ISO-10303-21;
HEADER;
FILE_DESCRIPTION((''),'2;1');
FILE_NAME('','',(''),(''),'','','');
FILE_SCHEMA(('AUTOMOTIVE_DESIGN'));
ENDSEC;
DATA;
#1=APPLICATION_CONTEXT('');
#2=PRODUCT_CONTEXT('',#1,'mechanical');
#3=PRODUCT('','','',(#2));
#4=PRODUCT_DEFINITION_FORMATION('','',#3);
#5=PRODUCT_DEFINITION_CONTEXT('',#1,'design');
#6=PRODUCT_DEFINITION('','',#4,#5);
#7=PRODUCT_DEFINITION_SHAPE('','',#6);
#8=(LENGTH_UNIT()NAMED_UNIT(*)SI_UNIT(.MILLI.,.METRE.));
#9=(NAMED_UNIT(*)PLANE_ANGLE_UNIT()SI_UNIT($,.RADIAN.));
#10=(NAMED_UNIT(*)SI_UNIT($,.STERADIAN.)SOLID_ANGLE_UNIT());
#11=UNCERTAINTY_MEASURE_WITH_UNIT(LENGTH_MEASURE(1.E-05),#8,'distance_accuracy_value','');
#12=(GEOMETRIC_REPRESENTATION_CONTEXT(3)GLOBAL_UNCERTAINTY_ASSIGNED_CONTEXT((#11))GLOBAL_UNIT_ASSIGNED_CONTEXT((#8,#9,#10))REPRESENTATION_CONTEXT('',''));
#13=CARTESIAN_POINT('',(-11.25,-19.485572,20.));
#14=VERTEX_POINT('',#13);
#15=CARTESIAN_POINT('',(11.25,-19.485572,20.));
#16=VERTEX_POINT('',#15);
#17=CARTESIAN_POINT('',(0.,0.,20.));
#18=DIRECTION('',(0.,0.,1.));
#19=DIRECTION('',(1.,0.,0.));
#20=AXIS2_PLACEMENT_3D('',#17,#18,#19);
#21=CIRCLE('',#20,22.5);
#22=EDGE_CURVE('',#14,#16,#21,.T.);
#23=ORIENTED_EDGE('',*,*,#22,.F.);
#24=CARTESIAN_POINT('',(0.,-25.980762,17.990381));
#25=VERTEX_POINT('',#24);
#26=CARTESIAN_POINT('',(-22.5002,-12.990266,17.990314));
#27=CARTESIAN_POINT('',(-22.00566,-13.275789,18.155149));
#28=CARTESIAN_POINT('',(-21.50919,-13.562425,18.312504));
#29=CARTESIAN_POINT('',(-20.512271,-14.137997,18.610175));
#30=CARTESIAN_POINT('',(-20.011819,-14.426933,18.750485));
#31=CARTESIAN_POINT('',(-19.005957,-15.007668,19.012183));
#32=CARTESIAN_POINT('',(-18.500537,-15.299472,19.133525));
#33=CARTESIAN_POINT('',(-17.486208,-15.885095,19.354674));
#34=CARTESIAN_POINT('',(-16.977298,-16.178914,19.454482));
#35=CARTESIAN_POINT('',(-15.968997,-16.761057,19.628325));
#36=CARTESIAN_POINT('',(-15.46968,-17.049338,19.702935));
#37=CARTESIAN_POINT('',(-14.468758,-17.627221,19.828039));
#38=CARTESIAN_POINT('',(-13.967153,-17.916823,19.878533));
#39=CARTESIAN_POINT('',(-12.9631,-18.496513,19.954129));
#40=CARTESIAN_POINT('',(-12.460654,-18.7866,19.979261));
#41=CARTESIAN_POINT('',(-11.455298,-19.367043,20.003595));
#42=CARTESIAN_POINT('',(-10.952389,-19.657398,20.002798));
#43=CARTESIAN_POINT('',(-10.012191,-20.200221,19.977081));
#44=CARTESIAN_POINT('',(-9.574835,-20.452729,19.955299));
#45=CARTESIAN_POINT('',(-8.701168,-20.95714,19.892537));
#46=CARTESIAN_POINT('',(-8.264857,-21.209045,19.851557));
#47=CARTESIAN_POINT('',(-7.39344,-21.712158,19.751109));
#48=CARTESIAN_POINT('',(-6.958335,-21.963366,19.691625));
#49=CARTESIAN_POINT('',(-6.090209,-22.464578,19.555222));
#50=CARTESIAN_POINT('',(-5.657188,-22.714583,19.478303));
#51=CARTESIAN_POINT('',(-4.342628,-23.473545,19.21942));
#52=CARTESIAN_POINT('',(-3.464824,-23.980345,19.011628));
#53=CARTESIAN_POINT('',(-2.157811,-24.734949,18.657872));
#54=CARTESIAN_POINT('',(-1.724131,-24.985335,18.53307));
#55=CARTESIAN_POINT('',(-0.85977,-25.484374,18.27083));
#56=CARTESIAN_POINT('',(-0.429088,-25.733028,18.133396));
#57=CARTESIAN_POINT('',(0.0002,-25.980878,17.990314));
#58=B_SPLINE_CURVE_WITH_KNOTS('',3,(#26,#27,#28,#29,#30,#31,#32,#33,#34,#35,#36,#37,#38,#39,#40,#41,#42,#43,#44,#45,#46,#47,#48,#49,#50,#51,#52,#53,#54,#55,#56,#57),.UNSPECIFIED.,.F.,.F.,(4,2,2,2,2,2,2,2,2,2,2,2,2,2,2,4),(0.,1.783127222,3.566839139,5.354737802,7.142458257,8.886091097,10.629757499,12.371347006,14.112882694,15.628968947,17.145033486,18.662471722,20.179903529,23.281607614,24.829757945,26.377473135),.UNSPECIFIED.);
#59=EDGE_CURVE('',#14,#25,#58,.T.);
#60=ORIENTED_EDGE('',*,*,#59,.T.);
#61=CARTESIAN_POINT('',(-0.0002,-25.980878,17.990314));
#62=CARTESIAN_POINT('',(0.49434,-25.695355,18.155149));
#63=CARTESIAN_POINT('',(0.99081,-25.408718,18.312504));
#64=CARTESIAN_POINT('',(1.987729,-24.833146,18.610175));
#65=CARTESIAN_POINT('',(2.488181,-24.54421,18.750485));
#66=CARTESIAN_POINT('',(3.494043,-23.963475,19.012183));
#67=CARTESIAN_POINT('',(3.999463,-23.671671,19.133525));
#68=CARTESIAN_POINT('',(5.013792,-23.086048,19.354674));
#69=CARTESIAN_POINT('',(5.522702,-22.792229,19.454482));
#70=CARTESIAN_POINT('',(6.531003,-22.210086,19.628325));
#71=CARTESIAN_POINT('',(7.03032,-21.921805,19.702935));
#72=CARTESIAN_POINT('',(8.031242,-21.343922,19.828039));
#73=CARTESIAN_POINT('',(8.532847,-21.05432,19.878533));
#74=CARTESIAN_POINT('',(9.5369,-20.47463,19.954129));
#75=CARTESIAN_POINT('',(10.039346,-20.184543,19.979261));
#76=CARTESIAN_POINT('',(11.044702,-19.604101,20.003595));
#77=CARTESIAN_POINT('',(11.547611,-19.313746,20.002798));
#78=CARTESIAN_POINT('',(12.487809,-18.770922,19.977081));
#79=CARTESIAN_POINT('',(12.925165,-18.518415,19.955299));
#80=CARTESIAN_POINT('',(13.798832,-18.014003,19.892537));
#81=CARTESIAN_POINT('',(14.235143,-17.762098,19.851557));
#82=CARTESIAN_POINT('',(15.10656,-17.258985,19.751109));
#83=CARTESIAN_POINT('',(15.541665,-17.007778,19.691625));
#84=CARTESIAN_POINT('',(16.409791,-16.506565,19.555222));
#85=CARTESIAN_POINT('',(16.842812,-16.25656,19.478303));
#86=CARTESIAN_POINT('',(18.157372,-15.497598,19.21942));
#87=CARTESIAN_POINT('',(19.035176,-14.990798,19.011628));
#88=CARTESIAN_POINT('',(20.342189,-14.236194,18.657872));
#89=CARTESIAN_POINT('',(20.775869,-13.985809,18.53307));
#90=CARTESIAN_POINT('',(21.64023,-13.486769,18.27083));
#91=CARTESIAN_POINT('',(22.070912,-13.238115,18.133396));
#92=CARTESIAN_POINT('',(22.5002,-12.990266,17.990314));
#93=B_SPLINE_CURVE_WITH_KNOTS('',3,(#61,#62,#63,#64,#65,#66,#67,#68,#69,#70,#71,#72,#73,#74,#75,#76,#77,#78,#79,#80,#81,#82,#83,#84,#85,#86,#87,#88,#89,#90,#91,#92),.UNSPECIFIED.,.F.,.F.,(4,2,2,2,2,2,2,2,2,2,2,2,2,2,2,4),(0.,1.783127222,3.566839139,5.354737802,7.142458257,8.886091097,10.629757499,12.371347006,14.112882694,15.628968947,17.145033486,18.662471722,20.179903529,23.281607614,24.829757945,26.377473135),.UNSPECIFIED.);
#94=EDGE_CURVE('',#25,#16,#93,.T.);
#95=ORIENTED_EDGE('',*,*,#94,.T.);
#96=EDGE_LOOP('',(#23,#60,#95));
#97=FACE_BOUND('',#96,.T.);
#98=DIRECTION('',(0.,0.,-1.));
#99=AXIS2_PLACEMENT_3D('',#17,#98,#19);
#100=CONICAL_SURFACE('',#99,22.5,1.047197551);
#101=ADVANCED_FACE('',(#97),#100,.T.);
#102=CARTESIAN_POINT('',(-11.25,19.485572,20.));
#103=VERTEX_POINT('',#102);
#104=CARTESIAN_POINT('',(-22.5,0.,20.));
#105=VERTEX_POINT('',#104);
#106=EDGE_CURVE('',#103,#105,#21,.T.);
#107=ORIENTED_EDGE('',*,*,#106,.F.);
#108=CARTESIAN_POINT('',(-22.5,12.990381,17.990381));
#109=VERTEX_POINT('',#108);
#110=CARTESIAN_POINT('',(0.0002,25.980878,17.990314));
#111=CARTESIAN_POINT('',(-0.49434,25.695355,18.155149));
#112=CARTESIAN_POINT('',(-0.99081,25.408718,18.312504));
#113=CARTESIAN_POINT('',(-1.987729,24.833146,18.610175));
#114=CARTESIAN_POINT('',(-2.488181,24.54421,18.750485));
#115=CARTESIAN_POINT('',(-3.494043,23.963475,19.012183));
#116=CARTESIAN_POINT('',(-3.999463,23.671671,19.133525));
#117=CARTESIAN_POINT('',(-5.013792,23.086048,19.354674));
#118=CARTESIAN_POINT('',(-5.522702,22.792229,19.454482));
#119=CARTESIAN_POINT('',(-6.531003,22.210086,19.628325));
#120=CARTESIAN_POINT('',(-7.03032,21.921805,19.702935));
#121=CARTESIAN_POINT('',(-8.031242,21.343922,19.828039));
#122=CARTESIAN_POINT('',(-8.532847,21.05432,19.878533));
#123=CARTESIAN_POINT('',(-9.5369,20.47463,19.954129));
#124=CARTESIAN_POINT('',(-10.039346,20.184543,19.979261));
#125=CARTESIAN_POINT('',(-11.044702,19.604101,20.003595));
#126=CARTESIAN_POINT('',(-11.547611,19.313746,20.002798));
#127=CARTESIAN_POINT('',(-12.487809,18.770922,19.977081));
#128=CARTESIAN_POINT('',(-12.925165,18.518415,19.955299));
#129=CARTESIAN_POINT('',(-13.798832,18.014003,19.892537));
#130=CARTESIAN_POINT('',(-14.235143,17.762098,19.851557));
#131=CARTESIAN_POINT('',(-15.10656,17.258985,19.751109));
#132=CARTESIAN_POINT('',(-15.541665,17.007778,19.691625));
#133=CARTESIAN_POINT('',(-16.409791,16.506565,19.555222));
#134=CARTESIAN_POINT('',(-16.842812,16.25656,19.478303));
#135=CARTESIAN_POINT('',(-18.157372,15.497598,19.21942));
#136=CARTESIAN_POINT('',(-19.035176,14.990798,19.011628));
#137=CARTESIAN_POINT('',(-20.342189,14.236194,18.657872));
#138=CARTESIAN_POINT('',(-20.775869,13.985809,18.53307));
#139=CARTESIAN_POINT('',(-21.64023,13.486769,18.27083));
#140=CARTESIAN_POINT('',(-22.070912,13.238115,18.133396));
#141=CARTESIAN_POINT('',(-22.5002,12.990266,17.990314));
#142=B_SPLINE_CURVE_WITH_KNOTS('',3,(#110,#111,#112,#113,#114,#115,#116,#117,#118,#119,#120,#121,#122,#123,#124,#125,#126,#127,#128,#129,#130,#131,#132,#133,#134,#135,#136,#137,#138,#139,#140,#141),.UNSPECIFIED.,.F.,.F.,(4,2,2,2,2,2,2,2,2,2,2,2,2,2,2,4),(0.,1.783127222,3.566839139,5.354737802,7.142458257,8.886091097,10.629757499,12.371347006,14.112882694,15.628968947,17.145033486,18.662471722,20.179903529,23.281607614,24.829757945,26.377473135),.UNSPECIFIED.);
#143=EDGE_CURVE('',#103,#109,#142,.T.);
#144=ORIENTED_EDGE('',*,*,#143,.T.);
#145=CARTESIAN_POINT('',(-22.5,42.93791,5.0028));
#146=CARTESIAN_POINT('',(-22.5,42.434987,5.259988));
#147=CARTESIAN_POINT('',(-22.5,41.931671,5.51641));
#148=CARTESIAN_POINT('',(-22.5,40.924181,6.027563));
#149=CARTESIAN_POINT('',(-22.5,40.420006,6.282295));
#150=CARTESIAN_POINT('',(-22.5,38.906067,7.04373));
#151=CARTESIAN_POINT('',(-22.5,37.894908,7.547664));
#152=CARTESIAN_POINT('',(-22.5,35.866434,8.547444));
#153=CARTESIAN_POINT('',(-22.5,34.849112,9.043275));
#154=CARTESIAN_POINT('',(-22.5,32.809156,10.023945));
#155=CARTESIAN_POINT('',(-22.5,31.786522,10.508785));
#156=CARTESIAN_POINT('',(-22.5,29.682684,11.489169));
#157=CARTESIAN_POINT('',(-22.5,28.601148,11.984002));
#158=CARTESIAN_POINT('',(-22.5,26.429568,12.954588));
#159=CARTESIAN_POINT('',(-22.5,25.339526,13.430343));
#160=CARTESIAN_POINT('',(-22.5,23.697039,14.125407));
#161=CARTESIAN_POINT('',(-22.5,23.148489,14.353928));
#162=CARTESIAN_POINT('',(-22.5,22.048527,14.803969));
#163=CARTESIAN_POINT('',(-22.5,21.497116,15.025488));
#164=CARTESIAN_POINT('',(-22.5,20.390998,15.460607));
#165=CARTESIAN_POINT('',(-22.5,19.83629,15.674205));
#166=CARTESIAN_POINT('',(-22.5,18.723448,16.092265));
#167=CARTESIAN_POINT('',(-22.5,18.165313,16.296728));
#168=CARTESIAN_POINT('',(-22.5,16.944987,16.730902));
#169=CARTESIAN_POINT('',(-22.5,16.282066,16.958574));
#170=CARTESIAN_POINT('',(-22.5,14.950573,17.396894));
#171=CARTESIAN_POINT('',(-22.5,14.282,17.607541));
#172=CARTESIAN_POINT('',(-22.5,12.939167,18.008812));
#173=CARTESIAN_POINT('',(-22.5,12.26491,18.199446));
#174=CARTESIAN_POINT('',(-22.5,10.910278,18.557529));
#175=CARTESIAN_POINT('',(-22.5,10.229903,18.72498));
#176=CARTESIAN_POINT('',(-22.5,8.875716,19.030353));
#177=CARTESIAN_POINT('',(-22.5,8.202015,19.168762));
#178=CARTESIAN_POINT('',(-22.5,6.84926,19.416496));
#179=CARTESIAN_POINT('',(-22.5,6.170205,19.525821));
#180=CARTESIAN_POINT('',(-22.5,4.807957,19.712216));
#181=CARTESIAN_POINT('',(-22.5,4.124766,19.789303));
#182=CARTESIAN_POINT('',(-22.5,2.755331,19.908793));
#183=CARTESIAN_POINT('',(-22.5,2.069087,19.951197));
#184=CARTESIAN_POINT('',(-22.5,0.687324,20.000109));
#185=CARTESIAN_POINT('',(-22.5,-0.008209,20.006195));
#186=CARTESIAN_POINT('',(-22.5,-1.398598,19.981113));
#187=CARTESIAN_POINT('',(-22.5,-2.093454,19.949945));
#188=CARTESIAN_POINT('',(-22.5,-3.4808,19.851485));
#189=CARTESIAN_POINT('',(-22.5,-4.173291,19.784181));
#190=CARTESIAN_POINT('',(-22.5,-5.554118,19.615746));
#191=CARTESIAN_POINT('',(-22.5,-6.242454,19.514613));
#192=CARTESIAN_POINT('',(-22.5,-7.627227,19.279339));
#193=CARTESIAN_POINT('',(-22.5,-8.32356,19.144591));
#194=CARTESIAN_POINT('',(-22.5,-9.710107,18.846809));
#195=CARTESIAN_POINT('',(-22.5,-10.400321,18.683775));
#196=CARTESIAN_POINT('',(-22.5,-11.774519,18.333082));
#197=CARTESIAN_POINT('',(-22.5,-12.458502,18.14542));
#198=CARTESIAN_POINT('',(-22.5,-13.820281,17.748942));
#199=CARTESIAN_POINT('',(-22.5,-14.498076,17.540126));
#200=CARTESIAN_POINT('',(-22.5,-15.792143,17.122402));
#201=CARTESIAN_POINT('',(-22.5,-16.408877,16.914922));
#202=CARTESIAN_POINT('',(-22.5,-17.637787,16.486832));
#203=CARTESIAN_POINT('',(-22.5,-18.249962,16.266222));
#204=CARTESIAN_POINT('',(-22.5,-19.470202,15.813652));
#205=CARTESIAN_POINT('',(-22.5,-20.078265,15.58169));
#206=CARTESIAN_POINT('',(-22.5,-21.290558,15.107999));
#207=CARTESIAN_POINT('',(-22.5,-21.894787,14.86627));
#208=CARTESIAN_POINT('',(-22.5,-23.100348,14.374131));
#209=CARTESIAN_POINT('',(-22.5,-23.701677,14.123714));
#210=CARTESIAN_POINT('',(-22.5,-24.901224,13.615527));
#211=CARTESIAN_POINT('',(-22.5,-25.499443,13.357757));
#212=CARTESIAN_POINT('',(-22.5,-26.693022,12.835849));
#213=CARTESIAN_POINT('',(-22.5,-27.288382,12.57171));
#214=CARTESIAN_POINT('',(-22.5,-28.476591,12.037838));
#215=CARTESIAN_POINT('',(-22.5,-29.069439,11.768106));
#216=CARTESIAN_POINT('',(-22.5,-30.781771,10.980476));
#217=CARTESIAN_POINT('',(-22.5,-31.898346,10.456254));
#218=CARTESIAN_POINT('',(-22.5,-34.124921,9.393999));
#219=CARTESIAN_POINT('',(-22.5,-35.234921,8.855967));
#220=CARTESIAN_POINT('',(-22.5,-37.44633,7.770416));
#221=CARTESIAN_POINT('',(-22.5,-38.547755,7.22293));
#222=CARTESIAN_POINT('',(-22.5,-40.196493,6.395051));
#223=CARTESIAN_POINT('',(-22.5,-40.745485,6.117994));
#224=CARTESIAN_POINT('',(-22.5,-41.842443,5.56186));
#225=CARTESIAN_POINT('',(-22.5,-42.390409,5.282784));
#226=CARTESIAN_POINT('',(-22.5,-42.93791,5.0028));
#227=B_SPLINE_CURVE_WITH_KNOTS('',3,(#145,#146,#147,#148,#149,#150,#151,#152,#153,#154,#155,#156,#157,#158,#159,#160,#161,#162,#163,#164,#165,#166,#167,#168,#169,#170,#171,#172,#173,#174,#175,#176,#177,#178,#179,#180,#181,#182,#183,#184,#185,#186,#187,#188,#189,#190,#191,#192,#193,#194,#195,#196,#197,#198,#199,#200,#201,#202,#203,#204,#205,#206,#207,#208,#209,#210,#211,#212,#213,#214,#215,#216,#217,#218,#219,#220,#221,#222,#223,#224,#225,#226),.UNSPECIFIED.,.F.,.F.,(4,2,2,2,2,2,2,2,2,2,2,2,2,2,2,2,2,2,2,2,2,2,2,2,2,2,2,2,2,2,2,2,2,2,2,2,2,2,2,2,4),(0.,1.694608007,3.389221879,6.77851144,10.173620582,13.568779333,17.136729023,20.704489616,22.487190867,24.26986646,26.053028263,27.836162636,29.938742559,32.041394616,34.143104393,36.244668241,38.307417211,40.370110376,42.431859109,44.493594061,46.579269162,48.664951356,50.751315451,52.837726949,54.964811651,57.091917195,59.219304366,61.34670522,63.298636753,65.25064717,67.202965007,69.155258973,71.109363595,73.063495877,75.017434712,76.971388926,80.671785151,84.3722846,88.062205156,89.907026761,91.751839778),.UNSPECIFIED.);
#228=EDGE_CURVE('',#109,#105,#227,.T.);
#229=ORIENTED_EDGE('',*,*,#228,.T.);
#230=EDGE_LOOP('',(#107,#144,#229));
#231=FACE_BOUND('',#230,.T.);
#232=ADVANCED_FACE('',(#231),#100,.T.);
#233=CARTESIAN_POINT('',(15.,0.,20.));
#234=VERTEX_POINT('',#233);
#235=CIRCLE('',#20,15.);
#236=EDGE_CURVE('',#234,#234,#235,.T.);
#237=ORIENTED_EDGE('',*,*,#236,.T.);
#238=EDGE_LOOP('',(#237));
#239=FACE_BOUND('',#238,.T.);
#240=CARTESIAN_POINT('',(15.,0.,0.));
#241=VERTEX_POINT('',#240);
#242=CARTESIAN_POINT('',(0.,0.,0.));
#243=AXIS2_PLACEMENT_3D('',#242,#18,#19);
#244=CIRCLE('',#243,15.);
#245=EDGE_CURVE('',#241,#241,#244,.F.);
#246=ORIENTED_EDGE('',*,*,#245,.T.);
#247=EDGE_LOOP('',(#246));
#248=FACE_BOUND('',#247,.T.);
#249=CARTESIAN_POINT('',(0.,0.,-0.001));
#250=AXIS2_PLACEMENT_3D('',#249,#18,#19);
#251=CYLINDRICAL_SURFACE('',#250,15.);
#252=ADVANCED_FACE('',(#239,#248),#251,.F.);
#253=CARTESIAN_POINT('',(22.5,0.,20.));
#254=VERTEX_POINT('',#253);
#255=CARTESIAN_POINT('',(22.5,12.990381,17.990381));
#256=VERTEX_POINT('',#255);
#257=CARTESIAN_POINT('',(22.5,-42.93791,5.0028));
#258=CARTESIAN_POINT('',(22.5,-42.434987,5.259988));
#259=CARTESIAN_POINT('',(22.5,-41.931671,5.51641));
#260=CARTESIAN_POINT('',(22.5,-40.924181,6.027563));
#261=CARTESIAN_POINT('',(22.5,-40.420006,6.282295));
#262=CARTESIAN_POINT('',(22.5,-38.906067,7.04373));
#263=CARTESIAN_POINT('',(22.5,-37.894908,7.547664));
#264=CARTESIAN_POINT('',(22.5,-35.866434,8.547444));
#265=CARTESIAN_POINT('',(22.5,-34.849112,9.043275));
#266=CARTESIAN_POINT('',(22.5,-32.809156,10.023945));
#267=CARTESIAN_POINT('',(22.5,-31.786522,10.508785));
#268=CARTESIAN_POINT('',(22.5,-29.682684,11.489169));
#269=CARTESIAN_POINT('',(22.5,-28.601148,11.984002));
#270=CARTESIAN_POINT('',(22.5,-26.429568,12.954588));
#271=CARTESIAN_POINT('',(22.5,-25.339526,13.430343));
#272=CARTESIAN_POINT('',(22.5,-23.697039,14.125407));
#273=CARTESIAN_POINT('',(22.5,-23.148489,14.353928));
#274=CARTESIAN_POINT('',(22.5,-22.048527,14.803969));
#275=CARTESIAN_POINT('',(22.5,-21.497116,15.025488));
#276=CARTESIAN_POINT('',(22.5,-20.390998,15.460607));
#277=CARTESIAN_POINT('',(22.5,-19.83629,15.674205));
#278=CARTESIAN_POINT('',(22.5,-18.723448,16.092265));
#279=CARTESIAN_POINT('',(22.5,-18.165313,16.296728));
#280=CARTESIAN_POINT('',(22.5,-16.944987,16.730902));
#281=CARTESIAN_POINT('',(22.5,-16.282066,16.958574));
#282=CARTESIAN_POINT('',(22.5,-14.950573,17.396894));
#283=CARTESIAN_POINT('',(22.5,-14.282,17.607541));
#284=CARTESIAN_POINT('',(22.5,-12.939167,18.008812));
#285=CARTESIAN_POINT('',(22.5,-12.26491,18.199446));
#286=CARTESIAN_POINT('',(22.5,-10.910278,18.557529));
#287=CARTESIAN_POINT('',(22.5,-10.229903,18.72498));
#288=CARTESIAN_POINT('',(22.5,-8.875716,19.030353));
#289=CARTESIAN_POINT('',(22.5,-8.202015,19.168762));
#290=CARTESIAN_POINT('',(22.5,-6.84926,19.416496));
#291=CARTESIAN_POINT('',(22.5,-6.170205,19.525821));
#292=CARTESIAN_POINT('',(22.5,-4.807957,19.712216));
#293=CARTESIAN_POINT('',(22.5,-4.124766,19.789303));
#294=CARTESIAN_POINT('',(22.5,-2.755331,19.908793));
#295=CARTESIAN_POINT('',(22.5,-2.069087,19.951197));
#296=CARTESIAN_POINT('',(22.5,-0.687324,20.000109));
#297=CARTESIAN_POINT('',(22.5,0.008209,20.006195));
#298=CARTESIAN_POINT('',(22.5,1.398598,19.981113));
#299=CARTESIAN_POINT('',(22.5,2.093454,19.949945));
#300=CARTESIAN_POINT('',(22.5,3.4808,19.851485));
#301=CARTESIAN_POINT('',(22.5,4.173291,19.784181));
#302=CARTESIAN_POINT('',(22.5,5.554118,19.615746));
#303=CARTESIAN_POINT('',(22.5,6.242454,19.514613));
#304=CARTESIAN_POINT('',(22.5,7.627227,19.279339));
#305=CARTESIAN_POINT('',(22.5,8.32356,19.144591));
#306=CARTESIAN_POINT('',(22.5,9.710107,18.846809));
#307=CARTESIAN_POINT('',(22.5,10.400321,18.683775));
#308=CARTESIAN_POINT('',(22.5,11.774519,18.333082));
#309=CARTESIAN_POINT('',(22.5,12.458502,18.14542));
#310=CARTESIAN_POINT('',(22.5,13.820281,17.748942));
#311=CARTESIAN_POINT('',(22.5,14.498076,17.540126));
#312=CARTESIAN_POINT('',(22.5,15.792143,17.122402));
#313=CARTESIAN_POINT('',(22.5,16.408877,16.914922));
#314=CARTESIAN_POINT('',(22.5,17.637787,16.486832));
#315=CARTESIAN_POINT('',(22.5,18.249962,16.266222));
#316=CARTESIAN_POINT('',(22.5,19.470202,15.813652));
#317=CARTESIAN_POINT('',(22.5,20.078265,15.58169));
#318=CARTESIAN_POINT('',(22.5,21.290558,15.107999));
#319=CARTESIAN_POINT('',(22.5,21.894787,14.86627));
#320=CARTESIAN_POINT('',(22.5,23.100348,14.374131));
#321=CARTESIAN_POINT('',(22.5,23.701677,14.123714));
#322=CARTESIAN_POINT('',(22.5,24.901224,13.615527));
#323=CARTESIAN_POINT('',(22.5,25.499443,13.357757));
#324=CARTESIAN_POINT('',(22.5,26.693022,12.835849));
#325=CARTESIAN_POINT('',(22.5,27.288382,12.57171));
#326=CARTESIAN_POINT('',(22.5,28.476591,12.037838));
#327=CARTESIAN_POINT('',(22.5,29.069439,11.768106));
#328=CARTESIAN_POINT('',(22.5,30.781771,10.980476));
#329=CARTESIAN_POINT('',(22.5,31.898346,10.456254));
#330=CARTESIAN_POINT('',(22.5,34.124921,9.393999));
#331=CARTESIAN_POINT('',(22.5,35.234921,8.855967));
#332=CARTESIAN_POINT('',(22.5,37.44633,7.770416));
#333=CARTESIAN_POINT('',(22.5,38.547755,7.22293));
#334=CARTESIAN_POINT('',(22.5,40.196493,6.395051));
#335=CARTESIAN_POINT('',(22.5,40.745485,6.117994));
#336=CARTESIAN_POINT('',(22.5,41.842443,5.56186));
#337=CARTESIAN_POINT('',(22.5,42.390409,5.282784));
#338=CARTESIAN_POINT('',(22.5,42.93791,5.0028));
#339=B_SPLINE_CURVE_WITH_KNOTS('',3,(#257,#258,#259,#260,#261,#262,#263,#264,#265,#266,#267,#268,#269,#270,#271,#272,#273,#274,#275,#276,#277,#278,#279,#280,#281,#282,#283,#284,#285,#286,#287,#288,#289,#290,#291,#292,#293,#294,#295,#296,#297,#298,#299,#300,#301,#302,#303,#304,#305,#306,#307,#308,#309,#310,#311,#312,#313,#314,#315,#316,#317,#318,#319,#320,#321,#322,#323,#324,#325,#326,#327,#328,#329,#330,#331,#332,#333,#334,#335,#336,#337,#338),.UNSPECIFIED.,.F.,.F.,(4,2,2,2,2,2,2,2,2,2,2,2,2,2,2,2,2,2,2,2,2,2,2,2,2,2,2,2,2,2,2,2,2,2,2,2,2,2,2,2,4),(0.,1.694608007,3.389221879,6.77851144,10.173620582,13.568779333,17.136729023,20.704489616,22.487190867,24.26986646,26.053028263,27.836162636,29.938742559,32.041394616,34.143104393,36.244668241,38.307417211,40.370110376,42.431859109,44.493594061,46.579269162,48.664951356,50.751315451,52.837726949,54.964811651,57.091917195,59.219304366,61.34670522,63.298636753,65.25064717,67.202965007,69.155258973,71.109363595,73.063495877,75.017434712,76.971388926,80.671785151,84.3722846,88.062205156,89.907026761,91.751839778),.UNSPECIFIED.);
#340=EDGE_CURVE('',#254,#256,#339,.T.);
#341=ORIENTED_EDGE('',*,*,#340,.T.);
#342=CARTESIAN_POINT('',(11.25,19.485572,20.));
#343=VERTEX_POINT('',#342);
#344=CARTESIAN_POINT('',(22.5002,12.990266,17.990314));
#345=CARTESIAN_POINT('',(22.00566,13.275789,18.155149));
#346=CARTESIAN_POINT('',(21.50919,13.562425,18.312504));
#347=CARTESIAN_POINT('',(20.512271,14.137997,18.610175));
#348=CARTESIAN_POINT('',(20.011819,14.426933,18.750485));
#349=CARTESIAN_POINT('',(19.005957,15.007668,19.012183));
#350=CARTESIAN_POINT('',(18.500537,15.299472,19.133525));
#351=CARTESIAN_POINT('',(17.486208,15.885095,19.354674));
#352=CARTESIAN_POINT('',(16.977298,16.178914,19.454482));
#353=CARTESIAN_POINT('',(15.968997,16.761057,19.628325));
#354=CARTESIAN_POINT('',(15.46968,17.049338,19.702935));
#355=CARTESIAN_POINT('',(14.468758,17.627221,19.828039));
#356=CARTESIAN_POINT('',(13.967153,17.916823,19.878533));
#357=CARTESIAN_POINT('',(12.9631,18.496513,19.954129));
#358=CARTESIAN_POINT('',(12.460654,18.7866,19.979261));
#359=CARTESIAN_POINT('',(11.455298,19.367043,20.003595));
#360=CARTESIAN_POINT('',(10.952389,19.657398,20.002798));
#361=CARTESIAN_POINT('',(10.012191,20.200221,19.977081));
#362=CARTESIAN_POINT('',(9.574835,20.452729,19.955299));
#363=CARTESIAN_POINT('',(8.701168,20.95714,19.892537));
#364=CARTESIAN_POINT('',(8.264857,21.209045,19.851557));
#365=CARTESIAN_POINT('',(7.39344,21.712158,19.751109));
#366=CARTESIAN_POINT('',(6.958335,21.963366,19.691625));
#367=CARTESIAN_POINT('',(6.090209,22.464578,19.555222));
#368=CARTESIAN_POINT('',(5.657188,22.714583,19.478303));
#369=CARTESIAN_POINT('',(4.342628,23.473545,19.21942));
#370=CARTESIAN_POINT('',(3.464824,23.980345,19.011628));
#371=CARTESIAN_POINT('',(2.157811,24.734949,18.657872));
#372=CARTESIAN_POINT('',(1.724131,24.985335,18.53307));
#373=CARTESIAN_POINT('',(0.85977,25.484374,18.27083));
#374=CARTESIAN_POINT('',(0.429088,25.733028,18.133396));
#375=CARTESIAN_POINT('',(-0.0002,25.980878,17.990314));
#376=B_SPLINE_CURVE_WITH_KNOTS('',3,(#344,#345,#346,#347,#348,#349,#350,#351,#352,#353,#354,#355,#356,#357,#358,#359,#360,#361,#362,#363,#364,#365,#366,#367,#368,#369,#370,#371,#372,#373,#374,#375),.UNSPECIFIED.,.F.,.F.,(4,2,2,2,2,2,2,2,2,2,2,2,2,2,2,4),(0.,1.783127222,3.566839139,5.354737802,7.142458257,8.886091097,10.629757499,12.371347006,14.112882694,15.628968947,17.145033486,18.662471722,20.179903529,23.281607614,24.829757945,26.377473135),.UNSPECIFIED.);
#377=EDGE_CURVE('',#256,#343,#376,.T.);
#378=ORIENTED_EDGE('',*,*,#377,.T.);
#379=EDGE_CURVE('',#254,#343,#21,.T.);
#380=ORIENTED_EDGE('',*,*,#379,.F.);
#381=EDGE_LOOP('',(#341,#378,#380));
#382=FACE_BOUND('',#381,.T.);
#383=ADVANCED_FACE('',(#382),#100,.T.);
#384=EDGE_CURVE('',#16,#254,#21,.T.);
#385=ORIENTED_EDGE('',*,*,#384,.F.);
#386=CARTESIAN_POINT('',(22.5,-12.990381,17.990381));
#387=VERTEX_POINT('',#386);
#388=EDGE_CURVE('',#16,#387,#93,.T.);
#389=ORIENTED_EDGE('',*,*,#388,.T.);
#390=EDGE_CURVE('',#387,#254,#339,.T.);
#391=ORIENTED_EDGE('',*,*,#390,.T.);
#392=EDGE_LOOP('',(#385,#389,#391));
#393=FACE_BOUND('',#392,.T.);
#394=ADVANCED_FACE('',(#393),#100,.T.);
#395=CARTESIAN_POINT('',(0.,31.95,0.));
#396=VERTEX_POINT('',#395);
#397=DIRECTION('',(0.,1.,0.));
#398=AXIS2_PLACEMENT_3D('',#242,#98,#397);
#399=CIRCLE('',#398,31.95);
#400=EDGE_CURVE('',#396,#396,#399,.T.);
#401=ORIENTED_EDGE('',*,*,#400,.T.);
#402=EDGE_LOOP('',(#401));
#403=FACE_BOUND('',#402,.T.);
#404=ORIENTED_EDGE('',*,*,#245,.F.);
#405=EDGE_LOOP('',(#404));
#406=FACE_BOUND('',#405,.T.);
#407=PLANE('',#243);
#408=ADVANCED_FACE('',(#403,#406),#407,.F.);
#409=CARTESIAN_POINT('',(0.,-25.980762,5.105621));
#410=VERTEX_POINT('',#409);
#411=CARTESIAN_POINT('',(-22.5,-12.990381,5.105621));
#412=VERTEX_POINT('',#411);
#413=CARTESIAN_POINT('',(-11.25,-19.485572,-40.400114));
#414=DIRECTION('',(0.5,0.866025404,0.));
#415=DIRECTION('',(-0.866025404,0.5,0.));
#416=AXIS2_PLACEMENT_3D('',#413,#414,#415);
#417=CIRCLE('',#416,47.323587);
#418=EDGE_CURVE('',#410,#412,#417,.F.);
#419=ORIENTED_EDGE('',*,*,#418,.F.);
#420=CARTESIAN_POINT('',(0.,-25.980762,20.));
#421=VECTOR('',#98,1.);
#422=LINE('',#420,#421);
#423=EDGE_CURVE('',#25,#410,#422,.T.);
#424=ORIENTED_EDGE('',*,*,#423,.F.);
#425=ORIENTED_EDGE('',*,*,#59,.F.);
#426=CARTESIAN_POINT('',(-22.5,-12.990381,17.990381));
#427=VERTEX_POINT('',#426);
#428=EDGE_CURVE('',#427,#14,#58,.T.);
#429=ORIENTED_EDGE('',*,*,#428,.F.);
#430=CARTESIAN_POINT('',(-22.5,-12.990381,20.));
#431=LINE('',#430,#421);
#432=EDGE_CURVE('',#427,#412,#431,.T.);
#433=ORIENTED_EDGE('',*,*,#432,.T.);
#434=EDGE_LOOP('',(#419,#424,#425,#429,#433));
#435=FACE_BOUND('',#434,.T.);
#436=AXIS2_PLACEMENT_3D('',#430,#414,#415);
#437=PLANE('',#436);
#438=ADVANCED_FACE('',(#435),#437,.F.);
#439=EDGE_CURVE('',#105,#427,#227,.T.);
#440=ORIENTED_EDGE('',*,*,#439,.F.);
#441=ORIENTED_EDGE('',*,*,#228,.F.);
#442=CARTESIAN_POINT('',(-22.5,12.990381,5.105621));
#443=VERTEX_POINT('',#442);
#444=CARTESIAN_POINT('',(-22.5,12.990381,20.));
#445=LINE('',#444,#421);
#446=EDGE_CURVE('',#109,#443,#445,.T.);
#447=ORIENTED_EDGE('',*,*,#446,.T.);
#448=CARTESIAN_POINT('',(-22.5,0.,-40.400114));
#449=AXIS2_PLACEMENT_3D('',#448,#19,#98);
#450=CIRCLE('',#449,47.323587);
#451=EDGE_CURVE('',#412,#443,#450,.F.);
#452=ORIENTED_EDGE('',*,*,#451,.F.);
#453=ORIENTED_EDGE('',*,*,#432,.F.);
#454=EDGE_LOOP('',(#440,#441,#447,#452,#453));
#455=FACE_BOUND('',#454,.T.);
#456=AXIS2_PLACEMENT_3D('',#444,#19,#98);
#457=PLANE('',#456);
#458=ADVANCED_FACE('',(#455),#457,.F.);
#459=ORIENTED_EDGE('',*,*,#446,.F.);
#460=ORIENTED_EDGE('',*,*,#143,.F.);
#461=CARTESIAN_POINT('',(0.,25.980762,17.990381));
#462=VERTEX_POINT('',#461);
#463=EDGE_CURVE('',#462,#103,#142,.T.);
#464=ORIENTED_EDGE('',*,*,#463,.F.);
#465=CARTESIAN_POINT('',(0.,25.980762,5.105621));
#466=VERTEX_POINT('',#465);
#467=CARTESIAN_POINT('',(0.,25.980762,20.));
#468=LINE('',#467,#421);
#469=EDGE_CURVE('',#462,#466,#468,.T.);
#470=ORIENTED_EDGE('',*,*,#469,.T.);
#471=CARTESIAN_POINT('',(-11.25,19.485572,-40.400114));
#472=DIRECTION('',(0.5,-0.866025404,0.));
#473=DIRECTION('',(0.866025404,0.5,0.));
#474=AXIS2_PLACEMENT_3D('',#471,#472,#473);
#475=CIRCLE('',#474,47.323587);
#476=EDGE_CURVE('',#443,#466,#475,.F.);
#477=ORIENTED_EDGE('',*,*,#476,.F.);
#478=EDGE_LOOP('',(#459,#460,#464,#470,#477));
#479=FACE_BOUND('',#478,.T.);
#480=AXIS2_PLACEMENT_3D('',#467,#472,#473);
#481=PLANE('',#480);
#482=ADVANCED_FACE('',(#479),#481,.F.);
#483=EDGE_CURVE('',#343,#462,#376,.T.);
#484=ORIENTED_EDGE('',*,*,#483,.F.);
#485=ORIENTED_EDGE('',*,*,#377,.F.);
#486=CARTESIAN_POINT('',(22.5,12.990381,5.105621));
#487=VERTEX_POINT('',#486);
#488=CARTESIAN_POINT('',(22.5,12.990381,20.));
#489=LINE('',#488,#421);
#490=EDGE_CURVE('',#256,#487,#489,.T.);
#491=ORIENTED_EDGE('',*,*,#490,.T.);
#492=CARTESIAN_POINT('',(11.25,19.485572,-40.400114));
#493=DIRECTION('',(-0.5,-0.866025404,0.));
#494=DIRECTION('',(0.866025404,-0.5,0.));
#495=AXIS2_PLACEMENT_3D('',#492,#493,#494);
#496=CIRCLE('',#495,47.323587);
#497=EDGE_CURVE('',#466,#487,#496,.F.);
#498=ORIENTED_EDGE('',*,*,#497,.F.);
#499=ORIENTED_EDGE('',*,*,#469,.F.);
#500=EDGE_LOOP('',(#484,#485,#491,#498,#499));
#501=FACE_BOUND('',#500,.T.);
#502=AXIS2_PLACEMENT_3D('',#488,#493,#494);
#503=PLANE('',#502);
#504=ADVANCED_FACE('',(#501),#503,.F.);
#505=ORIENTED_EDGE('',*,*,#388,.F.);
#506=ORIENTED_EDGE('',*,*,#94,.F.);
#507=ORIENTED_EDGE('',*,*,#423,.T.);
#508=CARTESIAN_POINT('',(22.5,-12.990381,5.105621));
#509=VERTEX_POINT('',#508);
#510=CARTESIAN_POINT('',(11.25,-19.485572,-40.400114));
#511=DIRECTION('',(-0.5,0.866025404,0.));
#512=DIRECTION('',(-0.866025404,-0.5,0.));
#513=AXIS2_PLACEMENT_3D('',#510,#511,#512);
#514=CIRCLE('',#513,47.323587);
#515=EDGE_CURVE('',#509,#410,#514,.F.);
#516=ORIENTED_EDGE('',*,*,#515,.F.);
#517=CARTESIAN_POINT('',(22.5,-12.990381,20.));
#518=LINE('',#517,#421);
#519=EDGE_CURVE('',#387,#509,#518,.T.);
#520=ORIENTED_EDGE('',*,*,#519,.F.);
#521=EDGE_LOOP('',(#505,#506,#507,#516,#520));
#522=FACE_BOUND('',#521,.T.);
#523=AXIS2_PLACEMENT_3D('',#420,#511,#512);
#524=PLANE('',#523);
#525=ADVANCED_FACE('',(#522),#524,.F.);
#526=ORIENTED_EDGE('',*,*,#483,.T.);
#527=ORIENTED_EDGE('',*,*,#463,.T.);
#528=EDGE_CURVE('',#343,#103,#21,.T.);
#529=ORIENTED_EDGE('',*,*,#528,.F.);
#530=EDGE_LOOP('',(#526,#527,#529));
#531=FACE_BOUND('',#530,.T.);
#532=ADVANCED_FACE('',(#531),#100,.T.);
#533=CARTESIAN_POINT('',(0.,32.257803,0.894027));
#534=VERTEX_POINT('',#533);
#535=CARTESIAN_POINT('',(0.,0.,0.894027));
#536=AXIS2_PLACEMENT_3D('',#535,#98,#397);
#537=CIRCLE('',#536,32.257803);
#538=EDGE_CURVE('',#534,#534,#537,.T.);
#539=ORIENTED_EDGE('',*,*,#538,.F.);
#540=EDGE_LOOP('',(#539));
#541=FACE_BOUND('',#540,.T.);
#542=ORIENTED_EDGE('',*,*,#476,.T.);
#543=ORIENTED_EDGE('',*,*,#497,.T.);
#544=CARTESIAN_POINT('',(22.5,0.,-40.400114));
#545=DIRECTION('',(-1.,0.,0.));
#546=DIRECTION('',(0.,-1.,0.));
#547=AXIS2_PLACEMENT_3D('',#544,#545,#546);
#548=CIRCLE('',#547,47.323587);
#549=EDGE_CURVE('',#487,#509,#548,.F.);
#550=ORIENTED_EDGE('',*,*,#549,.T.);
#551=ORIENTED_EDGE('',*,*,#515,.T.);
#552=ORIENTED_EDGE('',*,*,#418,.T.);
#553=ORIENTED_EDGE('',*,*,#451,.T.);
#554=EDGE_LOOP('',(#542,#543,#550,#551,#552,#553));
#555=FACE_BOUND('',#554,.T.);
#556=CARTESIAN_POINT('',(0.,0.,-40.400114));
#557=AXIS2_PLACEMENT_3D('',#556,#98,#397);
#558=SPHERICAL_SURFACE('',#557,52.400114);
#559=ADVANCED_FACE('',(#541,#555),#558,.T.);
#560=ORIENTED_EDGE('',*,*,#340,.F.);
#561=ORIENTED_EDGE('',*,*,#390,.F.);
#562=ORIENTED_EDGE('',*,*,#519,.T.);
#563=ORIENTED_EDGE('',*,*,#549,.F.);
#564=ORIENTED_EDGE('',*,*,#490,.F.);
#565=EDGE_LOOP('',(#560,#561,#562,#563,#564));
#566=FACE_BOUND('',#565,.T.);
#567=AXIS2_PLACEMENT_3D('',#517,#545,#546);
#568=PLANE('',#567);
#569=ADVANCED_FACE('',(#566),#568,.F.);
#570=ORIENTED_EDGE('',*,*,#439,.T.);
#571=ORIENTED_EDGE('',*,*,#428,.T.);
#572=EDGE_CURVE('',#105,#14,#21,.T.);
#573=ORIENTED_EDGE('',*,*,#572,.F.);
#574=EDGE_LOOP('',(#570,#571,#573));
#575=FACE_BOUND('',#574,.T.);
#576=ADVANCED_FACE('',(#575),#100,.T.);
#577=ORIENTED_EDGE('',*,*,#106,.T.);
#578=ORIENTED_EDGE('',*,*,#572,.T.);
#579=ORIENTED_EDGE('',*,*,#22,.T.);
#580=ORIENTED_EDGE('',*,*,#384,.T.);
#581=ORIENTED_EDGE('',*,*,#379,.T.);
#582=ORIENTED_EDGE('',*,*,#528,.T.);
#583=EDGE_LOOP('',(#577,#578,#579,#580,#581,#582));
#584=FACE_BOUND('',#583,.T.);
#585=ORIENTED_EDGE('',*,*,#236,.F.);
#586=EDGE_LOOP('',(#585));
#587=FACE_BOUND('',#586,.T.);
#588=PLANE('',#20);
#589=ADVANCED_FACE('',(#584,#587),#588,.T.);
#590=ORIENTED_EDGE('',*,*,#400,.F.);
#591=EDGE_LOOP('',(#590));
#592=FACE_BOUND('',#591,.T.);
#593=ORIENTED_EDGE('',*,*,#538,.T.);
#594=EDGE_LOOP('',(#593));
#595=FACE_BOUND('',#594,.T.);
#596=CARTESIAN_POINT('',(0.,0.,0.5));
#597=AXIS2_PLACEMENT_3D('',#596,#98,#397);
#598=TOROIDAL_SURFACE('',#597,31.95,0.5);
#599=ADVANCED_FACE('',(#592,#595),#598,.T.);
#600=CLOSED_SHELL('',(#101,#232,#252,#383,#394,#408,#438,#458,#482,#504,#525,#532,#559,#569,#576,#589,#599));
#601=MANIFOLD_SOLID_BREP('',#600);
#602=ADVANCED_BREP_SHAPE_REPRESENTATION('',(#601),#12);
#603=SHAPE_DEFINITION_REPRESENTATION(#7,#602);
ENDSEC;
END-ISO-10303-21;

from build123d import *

# Parameters (mm, degrees)
BOSS_EXTRUDE1_DEPTH = 20
SKETCH3_OUTSIDE_W   = 154.97
SKETCH3_OUTSIDE_H   = 154.97
SKETCH3_OUTSIDE_R   = 22.5
CUT_EXTRUDE1_DEPTH  = 20
CUT_EXTRUDE1_TAPER  = 60
CUT_EXTRUDE2_REACH  = 22
SKETCH4_R           = 15


with BuildPart() as part:
    # Sketch1 → Boss-Extrude1 (new body)
    with BuildSketch(Plane.XY):
        Polygon((0, 25.980762114), (-22.5, 12.990381057), (-22.5, -12.990381057), (0, -25.980762114), (22.5, -12.990381057), (22.5, 12.990381057), align=None)
    extrude(amount=BOSS_EXTRUDE1_DEPTH)

    # Sketch2 → Revolve2 (revolve)
    with BuildSketch(Plane(origin=(0, 0, 0), x_dir=(0, 0, -1), z_dir=(1, 0, 0))):
        with BuildLine():
            Line((0, 0), (-12, 0))
            ThreePointArc((-12, 0), (-9.145772075, -17.058051419), (-0.894027207, -32.257802794))
            ThreePointArc((-0.894027207, -32.257802794), (-0.337232687, -32.42276506), (0, -31.95))
            Line((0, -31.95), (0, 0))
        make_face()
    revolve(axis=Axis((0, 0, 0), (0, 0, 1)))

    # Sketch3 outside → Cut-Extrude1 (cut)
    with BuildSketch(Plane.XY.offset(20)):
        Rectangle(SKETCH3_OUTSIDE_W, SKETCH3_OUTSIDE_H)
        Circle(SKETCH3_OUTSIDE_R, mode=Mode.SUBTRACT)
    extrude(amount=-CUT_EXTRUDE1_DEPTH, taper=CUT_EXTRUDE1_TAPER, mode=Mode.SUBTRACT)

    # Sketch4 → Cut-Extrude2 (cut, up to next)
    with BuildSketch(Plane.XY.offset(20), mode=Mode.PRIVATE) as cut_extrude2_sk1:
        Circle(SKETCH4_R)
    cut_extrude2_tool1 = extrude(cut_extrude2_sk1.sketch, amount=-CUT_EXTRUDE2_REACH, mode=Mode.PRIVATE) & part.part
    add(cut_extrude2_tool1.solids().sort_by_distance((0, 0, 20))[0], mode=Mode.SUBTRACT)


solid = part.part
